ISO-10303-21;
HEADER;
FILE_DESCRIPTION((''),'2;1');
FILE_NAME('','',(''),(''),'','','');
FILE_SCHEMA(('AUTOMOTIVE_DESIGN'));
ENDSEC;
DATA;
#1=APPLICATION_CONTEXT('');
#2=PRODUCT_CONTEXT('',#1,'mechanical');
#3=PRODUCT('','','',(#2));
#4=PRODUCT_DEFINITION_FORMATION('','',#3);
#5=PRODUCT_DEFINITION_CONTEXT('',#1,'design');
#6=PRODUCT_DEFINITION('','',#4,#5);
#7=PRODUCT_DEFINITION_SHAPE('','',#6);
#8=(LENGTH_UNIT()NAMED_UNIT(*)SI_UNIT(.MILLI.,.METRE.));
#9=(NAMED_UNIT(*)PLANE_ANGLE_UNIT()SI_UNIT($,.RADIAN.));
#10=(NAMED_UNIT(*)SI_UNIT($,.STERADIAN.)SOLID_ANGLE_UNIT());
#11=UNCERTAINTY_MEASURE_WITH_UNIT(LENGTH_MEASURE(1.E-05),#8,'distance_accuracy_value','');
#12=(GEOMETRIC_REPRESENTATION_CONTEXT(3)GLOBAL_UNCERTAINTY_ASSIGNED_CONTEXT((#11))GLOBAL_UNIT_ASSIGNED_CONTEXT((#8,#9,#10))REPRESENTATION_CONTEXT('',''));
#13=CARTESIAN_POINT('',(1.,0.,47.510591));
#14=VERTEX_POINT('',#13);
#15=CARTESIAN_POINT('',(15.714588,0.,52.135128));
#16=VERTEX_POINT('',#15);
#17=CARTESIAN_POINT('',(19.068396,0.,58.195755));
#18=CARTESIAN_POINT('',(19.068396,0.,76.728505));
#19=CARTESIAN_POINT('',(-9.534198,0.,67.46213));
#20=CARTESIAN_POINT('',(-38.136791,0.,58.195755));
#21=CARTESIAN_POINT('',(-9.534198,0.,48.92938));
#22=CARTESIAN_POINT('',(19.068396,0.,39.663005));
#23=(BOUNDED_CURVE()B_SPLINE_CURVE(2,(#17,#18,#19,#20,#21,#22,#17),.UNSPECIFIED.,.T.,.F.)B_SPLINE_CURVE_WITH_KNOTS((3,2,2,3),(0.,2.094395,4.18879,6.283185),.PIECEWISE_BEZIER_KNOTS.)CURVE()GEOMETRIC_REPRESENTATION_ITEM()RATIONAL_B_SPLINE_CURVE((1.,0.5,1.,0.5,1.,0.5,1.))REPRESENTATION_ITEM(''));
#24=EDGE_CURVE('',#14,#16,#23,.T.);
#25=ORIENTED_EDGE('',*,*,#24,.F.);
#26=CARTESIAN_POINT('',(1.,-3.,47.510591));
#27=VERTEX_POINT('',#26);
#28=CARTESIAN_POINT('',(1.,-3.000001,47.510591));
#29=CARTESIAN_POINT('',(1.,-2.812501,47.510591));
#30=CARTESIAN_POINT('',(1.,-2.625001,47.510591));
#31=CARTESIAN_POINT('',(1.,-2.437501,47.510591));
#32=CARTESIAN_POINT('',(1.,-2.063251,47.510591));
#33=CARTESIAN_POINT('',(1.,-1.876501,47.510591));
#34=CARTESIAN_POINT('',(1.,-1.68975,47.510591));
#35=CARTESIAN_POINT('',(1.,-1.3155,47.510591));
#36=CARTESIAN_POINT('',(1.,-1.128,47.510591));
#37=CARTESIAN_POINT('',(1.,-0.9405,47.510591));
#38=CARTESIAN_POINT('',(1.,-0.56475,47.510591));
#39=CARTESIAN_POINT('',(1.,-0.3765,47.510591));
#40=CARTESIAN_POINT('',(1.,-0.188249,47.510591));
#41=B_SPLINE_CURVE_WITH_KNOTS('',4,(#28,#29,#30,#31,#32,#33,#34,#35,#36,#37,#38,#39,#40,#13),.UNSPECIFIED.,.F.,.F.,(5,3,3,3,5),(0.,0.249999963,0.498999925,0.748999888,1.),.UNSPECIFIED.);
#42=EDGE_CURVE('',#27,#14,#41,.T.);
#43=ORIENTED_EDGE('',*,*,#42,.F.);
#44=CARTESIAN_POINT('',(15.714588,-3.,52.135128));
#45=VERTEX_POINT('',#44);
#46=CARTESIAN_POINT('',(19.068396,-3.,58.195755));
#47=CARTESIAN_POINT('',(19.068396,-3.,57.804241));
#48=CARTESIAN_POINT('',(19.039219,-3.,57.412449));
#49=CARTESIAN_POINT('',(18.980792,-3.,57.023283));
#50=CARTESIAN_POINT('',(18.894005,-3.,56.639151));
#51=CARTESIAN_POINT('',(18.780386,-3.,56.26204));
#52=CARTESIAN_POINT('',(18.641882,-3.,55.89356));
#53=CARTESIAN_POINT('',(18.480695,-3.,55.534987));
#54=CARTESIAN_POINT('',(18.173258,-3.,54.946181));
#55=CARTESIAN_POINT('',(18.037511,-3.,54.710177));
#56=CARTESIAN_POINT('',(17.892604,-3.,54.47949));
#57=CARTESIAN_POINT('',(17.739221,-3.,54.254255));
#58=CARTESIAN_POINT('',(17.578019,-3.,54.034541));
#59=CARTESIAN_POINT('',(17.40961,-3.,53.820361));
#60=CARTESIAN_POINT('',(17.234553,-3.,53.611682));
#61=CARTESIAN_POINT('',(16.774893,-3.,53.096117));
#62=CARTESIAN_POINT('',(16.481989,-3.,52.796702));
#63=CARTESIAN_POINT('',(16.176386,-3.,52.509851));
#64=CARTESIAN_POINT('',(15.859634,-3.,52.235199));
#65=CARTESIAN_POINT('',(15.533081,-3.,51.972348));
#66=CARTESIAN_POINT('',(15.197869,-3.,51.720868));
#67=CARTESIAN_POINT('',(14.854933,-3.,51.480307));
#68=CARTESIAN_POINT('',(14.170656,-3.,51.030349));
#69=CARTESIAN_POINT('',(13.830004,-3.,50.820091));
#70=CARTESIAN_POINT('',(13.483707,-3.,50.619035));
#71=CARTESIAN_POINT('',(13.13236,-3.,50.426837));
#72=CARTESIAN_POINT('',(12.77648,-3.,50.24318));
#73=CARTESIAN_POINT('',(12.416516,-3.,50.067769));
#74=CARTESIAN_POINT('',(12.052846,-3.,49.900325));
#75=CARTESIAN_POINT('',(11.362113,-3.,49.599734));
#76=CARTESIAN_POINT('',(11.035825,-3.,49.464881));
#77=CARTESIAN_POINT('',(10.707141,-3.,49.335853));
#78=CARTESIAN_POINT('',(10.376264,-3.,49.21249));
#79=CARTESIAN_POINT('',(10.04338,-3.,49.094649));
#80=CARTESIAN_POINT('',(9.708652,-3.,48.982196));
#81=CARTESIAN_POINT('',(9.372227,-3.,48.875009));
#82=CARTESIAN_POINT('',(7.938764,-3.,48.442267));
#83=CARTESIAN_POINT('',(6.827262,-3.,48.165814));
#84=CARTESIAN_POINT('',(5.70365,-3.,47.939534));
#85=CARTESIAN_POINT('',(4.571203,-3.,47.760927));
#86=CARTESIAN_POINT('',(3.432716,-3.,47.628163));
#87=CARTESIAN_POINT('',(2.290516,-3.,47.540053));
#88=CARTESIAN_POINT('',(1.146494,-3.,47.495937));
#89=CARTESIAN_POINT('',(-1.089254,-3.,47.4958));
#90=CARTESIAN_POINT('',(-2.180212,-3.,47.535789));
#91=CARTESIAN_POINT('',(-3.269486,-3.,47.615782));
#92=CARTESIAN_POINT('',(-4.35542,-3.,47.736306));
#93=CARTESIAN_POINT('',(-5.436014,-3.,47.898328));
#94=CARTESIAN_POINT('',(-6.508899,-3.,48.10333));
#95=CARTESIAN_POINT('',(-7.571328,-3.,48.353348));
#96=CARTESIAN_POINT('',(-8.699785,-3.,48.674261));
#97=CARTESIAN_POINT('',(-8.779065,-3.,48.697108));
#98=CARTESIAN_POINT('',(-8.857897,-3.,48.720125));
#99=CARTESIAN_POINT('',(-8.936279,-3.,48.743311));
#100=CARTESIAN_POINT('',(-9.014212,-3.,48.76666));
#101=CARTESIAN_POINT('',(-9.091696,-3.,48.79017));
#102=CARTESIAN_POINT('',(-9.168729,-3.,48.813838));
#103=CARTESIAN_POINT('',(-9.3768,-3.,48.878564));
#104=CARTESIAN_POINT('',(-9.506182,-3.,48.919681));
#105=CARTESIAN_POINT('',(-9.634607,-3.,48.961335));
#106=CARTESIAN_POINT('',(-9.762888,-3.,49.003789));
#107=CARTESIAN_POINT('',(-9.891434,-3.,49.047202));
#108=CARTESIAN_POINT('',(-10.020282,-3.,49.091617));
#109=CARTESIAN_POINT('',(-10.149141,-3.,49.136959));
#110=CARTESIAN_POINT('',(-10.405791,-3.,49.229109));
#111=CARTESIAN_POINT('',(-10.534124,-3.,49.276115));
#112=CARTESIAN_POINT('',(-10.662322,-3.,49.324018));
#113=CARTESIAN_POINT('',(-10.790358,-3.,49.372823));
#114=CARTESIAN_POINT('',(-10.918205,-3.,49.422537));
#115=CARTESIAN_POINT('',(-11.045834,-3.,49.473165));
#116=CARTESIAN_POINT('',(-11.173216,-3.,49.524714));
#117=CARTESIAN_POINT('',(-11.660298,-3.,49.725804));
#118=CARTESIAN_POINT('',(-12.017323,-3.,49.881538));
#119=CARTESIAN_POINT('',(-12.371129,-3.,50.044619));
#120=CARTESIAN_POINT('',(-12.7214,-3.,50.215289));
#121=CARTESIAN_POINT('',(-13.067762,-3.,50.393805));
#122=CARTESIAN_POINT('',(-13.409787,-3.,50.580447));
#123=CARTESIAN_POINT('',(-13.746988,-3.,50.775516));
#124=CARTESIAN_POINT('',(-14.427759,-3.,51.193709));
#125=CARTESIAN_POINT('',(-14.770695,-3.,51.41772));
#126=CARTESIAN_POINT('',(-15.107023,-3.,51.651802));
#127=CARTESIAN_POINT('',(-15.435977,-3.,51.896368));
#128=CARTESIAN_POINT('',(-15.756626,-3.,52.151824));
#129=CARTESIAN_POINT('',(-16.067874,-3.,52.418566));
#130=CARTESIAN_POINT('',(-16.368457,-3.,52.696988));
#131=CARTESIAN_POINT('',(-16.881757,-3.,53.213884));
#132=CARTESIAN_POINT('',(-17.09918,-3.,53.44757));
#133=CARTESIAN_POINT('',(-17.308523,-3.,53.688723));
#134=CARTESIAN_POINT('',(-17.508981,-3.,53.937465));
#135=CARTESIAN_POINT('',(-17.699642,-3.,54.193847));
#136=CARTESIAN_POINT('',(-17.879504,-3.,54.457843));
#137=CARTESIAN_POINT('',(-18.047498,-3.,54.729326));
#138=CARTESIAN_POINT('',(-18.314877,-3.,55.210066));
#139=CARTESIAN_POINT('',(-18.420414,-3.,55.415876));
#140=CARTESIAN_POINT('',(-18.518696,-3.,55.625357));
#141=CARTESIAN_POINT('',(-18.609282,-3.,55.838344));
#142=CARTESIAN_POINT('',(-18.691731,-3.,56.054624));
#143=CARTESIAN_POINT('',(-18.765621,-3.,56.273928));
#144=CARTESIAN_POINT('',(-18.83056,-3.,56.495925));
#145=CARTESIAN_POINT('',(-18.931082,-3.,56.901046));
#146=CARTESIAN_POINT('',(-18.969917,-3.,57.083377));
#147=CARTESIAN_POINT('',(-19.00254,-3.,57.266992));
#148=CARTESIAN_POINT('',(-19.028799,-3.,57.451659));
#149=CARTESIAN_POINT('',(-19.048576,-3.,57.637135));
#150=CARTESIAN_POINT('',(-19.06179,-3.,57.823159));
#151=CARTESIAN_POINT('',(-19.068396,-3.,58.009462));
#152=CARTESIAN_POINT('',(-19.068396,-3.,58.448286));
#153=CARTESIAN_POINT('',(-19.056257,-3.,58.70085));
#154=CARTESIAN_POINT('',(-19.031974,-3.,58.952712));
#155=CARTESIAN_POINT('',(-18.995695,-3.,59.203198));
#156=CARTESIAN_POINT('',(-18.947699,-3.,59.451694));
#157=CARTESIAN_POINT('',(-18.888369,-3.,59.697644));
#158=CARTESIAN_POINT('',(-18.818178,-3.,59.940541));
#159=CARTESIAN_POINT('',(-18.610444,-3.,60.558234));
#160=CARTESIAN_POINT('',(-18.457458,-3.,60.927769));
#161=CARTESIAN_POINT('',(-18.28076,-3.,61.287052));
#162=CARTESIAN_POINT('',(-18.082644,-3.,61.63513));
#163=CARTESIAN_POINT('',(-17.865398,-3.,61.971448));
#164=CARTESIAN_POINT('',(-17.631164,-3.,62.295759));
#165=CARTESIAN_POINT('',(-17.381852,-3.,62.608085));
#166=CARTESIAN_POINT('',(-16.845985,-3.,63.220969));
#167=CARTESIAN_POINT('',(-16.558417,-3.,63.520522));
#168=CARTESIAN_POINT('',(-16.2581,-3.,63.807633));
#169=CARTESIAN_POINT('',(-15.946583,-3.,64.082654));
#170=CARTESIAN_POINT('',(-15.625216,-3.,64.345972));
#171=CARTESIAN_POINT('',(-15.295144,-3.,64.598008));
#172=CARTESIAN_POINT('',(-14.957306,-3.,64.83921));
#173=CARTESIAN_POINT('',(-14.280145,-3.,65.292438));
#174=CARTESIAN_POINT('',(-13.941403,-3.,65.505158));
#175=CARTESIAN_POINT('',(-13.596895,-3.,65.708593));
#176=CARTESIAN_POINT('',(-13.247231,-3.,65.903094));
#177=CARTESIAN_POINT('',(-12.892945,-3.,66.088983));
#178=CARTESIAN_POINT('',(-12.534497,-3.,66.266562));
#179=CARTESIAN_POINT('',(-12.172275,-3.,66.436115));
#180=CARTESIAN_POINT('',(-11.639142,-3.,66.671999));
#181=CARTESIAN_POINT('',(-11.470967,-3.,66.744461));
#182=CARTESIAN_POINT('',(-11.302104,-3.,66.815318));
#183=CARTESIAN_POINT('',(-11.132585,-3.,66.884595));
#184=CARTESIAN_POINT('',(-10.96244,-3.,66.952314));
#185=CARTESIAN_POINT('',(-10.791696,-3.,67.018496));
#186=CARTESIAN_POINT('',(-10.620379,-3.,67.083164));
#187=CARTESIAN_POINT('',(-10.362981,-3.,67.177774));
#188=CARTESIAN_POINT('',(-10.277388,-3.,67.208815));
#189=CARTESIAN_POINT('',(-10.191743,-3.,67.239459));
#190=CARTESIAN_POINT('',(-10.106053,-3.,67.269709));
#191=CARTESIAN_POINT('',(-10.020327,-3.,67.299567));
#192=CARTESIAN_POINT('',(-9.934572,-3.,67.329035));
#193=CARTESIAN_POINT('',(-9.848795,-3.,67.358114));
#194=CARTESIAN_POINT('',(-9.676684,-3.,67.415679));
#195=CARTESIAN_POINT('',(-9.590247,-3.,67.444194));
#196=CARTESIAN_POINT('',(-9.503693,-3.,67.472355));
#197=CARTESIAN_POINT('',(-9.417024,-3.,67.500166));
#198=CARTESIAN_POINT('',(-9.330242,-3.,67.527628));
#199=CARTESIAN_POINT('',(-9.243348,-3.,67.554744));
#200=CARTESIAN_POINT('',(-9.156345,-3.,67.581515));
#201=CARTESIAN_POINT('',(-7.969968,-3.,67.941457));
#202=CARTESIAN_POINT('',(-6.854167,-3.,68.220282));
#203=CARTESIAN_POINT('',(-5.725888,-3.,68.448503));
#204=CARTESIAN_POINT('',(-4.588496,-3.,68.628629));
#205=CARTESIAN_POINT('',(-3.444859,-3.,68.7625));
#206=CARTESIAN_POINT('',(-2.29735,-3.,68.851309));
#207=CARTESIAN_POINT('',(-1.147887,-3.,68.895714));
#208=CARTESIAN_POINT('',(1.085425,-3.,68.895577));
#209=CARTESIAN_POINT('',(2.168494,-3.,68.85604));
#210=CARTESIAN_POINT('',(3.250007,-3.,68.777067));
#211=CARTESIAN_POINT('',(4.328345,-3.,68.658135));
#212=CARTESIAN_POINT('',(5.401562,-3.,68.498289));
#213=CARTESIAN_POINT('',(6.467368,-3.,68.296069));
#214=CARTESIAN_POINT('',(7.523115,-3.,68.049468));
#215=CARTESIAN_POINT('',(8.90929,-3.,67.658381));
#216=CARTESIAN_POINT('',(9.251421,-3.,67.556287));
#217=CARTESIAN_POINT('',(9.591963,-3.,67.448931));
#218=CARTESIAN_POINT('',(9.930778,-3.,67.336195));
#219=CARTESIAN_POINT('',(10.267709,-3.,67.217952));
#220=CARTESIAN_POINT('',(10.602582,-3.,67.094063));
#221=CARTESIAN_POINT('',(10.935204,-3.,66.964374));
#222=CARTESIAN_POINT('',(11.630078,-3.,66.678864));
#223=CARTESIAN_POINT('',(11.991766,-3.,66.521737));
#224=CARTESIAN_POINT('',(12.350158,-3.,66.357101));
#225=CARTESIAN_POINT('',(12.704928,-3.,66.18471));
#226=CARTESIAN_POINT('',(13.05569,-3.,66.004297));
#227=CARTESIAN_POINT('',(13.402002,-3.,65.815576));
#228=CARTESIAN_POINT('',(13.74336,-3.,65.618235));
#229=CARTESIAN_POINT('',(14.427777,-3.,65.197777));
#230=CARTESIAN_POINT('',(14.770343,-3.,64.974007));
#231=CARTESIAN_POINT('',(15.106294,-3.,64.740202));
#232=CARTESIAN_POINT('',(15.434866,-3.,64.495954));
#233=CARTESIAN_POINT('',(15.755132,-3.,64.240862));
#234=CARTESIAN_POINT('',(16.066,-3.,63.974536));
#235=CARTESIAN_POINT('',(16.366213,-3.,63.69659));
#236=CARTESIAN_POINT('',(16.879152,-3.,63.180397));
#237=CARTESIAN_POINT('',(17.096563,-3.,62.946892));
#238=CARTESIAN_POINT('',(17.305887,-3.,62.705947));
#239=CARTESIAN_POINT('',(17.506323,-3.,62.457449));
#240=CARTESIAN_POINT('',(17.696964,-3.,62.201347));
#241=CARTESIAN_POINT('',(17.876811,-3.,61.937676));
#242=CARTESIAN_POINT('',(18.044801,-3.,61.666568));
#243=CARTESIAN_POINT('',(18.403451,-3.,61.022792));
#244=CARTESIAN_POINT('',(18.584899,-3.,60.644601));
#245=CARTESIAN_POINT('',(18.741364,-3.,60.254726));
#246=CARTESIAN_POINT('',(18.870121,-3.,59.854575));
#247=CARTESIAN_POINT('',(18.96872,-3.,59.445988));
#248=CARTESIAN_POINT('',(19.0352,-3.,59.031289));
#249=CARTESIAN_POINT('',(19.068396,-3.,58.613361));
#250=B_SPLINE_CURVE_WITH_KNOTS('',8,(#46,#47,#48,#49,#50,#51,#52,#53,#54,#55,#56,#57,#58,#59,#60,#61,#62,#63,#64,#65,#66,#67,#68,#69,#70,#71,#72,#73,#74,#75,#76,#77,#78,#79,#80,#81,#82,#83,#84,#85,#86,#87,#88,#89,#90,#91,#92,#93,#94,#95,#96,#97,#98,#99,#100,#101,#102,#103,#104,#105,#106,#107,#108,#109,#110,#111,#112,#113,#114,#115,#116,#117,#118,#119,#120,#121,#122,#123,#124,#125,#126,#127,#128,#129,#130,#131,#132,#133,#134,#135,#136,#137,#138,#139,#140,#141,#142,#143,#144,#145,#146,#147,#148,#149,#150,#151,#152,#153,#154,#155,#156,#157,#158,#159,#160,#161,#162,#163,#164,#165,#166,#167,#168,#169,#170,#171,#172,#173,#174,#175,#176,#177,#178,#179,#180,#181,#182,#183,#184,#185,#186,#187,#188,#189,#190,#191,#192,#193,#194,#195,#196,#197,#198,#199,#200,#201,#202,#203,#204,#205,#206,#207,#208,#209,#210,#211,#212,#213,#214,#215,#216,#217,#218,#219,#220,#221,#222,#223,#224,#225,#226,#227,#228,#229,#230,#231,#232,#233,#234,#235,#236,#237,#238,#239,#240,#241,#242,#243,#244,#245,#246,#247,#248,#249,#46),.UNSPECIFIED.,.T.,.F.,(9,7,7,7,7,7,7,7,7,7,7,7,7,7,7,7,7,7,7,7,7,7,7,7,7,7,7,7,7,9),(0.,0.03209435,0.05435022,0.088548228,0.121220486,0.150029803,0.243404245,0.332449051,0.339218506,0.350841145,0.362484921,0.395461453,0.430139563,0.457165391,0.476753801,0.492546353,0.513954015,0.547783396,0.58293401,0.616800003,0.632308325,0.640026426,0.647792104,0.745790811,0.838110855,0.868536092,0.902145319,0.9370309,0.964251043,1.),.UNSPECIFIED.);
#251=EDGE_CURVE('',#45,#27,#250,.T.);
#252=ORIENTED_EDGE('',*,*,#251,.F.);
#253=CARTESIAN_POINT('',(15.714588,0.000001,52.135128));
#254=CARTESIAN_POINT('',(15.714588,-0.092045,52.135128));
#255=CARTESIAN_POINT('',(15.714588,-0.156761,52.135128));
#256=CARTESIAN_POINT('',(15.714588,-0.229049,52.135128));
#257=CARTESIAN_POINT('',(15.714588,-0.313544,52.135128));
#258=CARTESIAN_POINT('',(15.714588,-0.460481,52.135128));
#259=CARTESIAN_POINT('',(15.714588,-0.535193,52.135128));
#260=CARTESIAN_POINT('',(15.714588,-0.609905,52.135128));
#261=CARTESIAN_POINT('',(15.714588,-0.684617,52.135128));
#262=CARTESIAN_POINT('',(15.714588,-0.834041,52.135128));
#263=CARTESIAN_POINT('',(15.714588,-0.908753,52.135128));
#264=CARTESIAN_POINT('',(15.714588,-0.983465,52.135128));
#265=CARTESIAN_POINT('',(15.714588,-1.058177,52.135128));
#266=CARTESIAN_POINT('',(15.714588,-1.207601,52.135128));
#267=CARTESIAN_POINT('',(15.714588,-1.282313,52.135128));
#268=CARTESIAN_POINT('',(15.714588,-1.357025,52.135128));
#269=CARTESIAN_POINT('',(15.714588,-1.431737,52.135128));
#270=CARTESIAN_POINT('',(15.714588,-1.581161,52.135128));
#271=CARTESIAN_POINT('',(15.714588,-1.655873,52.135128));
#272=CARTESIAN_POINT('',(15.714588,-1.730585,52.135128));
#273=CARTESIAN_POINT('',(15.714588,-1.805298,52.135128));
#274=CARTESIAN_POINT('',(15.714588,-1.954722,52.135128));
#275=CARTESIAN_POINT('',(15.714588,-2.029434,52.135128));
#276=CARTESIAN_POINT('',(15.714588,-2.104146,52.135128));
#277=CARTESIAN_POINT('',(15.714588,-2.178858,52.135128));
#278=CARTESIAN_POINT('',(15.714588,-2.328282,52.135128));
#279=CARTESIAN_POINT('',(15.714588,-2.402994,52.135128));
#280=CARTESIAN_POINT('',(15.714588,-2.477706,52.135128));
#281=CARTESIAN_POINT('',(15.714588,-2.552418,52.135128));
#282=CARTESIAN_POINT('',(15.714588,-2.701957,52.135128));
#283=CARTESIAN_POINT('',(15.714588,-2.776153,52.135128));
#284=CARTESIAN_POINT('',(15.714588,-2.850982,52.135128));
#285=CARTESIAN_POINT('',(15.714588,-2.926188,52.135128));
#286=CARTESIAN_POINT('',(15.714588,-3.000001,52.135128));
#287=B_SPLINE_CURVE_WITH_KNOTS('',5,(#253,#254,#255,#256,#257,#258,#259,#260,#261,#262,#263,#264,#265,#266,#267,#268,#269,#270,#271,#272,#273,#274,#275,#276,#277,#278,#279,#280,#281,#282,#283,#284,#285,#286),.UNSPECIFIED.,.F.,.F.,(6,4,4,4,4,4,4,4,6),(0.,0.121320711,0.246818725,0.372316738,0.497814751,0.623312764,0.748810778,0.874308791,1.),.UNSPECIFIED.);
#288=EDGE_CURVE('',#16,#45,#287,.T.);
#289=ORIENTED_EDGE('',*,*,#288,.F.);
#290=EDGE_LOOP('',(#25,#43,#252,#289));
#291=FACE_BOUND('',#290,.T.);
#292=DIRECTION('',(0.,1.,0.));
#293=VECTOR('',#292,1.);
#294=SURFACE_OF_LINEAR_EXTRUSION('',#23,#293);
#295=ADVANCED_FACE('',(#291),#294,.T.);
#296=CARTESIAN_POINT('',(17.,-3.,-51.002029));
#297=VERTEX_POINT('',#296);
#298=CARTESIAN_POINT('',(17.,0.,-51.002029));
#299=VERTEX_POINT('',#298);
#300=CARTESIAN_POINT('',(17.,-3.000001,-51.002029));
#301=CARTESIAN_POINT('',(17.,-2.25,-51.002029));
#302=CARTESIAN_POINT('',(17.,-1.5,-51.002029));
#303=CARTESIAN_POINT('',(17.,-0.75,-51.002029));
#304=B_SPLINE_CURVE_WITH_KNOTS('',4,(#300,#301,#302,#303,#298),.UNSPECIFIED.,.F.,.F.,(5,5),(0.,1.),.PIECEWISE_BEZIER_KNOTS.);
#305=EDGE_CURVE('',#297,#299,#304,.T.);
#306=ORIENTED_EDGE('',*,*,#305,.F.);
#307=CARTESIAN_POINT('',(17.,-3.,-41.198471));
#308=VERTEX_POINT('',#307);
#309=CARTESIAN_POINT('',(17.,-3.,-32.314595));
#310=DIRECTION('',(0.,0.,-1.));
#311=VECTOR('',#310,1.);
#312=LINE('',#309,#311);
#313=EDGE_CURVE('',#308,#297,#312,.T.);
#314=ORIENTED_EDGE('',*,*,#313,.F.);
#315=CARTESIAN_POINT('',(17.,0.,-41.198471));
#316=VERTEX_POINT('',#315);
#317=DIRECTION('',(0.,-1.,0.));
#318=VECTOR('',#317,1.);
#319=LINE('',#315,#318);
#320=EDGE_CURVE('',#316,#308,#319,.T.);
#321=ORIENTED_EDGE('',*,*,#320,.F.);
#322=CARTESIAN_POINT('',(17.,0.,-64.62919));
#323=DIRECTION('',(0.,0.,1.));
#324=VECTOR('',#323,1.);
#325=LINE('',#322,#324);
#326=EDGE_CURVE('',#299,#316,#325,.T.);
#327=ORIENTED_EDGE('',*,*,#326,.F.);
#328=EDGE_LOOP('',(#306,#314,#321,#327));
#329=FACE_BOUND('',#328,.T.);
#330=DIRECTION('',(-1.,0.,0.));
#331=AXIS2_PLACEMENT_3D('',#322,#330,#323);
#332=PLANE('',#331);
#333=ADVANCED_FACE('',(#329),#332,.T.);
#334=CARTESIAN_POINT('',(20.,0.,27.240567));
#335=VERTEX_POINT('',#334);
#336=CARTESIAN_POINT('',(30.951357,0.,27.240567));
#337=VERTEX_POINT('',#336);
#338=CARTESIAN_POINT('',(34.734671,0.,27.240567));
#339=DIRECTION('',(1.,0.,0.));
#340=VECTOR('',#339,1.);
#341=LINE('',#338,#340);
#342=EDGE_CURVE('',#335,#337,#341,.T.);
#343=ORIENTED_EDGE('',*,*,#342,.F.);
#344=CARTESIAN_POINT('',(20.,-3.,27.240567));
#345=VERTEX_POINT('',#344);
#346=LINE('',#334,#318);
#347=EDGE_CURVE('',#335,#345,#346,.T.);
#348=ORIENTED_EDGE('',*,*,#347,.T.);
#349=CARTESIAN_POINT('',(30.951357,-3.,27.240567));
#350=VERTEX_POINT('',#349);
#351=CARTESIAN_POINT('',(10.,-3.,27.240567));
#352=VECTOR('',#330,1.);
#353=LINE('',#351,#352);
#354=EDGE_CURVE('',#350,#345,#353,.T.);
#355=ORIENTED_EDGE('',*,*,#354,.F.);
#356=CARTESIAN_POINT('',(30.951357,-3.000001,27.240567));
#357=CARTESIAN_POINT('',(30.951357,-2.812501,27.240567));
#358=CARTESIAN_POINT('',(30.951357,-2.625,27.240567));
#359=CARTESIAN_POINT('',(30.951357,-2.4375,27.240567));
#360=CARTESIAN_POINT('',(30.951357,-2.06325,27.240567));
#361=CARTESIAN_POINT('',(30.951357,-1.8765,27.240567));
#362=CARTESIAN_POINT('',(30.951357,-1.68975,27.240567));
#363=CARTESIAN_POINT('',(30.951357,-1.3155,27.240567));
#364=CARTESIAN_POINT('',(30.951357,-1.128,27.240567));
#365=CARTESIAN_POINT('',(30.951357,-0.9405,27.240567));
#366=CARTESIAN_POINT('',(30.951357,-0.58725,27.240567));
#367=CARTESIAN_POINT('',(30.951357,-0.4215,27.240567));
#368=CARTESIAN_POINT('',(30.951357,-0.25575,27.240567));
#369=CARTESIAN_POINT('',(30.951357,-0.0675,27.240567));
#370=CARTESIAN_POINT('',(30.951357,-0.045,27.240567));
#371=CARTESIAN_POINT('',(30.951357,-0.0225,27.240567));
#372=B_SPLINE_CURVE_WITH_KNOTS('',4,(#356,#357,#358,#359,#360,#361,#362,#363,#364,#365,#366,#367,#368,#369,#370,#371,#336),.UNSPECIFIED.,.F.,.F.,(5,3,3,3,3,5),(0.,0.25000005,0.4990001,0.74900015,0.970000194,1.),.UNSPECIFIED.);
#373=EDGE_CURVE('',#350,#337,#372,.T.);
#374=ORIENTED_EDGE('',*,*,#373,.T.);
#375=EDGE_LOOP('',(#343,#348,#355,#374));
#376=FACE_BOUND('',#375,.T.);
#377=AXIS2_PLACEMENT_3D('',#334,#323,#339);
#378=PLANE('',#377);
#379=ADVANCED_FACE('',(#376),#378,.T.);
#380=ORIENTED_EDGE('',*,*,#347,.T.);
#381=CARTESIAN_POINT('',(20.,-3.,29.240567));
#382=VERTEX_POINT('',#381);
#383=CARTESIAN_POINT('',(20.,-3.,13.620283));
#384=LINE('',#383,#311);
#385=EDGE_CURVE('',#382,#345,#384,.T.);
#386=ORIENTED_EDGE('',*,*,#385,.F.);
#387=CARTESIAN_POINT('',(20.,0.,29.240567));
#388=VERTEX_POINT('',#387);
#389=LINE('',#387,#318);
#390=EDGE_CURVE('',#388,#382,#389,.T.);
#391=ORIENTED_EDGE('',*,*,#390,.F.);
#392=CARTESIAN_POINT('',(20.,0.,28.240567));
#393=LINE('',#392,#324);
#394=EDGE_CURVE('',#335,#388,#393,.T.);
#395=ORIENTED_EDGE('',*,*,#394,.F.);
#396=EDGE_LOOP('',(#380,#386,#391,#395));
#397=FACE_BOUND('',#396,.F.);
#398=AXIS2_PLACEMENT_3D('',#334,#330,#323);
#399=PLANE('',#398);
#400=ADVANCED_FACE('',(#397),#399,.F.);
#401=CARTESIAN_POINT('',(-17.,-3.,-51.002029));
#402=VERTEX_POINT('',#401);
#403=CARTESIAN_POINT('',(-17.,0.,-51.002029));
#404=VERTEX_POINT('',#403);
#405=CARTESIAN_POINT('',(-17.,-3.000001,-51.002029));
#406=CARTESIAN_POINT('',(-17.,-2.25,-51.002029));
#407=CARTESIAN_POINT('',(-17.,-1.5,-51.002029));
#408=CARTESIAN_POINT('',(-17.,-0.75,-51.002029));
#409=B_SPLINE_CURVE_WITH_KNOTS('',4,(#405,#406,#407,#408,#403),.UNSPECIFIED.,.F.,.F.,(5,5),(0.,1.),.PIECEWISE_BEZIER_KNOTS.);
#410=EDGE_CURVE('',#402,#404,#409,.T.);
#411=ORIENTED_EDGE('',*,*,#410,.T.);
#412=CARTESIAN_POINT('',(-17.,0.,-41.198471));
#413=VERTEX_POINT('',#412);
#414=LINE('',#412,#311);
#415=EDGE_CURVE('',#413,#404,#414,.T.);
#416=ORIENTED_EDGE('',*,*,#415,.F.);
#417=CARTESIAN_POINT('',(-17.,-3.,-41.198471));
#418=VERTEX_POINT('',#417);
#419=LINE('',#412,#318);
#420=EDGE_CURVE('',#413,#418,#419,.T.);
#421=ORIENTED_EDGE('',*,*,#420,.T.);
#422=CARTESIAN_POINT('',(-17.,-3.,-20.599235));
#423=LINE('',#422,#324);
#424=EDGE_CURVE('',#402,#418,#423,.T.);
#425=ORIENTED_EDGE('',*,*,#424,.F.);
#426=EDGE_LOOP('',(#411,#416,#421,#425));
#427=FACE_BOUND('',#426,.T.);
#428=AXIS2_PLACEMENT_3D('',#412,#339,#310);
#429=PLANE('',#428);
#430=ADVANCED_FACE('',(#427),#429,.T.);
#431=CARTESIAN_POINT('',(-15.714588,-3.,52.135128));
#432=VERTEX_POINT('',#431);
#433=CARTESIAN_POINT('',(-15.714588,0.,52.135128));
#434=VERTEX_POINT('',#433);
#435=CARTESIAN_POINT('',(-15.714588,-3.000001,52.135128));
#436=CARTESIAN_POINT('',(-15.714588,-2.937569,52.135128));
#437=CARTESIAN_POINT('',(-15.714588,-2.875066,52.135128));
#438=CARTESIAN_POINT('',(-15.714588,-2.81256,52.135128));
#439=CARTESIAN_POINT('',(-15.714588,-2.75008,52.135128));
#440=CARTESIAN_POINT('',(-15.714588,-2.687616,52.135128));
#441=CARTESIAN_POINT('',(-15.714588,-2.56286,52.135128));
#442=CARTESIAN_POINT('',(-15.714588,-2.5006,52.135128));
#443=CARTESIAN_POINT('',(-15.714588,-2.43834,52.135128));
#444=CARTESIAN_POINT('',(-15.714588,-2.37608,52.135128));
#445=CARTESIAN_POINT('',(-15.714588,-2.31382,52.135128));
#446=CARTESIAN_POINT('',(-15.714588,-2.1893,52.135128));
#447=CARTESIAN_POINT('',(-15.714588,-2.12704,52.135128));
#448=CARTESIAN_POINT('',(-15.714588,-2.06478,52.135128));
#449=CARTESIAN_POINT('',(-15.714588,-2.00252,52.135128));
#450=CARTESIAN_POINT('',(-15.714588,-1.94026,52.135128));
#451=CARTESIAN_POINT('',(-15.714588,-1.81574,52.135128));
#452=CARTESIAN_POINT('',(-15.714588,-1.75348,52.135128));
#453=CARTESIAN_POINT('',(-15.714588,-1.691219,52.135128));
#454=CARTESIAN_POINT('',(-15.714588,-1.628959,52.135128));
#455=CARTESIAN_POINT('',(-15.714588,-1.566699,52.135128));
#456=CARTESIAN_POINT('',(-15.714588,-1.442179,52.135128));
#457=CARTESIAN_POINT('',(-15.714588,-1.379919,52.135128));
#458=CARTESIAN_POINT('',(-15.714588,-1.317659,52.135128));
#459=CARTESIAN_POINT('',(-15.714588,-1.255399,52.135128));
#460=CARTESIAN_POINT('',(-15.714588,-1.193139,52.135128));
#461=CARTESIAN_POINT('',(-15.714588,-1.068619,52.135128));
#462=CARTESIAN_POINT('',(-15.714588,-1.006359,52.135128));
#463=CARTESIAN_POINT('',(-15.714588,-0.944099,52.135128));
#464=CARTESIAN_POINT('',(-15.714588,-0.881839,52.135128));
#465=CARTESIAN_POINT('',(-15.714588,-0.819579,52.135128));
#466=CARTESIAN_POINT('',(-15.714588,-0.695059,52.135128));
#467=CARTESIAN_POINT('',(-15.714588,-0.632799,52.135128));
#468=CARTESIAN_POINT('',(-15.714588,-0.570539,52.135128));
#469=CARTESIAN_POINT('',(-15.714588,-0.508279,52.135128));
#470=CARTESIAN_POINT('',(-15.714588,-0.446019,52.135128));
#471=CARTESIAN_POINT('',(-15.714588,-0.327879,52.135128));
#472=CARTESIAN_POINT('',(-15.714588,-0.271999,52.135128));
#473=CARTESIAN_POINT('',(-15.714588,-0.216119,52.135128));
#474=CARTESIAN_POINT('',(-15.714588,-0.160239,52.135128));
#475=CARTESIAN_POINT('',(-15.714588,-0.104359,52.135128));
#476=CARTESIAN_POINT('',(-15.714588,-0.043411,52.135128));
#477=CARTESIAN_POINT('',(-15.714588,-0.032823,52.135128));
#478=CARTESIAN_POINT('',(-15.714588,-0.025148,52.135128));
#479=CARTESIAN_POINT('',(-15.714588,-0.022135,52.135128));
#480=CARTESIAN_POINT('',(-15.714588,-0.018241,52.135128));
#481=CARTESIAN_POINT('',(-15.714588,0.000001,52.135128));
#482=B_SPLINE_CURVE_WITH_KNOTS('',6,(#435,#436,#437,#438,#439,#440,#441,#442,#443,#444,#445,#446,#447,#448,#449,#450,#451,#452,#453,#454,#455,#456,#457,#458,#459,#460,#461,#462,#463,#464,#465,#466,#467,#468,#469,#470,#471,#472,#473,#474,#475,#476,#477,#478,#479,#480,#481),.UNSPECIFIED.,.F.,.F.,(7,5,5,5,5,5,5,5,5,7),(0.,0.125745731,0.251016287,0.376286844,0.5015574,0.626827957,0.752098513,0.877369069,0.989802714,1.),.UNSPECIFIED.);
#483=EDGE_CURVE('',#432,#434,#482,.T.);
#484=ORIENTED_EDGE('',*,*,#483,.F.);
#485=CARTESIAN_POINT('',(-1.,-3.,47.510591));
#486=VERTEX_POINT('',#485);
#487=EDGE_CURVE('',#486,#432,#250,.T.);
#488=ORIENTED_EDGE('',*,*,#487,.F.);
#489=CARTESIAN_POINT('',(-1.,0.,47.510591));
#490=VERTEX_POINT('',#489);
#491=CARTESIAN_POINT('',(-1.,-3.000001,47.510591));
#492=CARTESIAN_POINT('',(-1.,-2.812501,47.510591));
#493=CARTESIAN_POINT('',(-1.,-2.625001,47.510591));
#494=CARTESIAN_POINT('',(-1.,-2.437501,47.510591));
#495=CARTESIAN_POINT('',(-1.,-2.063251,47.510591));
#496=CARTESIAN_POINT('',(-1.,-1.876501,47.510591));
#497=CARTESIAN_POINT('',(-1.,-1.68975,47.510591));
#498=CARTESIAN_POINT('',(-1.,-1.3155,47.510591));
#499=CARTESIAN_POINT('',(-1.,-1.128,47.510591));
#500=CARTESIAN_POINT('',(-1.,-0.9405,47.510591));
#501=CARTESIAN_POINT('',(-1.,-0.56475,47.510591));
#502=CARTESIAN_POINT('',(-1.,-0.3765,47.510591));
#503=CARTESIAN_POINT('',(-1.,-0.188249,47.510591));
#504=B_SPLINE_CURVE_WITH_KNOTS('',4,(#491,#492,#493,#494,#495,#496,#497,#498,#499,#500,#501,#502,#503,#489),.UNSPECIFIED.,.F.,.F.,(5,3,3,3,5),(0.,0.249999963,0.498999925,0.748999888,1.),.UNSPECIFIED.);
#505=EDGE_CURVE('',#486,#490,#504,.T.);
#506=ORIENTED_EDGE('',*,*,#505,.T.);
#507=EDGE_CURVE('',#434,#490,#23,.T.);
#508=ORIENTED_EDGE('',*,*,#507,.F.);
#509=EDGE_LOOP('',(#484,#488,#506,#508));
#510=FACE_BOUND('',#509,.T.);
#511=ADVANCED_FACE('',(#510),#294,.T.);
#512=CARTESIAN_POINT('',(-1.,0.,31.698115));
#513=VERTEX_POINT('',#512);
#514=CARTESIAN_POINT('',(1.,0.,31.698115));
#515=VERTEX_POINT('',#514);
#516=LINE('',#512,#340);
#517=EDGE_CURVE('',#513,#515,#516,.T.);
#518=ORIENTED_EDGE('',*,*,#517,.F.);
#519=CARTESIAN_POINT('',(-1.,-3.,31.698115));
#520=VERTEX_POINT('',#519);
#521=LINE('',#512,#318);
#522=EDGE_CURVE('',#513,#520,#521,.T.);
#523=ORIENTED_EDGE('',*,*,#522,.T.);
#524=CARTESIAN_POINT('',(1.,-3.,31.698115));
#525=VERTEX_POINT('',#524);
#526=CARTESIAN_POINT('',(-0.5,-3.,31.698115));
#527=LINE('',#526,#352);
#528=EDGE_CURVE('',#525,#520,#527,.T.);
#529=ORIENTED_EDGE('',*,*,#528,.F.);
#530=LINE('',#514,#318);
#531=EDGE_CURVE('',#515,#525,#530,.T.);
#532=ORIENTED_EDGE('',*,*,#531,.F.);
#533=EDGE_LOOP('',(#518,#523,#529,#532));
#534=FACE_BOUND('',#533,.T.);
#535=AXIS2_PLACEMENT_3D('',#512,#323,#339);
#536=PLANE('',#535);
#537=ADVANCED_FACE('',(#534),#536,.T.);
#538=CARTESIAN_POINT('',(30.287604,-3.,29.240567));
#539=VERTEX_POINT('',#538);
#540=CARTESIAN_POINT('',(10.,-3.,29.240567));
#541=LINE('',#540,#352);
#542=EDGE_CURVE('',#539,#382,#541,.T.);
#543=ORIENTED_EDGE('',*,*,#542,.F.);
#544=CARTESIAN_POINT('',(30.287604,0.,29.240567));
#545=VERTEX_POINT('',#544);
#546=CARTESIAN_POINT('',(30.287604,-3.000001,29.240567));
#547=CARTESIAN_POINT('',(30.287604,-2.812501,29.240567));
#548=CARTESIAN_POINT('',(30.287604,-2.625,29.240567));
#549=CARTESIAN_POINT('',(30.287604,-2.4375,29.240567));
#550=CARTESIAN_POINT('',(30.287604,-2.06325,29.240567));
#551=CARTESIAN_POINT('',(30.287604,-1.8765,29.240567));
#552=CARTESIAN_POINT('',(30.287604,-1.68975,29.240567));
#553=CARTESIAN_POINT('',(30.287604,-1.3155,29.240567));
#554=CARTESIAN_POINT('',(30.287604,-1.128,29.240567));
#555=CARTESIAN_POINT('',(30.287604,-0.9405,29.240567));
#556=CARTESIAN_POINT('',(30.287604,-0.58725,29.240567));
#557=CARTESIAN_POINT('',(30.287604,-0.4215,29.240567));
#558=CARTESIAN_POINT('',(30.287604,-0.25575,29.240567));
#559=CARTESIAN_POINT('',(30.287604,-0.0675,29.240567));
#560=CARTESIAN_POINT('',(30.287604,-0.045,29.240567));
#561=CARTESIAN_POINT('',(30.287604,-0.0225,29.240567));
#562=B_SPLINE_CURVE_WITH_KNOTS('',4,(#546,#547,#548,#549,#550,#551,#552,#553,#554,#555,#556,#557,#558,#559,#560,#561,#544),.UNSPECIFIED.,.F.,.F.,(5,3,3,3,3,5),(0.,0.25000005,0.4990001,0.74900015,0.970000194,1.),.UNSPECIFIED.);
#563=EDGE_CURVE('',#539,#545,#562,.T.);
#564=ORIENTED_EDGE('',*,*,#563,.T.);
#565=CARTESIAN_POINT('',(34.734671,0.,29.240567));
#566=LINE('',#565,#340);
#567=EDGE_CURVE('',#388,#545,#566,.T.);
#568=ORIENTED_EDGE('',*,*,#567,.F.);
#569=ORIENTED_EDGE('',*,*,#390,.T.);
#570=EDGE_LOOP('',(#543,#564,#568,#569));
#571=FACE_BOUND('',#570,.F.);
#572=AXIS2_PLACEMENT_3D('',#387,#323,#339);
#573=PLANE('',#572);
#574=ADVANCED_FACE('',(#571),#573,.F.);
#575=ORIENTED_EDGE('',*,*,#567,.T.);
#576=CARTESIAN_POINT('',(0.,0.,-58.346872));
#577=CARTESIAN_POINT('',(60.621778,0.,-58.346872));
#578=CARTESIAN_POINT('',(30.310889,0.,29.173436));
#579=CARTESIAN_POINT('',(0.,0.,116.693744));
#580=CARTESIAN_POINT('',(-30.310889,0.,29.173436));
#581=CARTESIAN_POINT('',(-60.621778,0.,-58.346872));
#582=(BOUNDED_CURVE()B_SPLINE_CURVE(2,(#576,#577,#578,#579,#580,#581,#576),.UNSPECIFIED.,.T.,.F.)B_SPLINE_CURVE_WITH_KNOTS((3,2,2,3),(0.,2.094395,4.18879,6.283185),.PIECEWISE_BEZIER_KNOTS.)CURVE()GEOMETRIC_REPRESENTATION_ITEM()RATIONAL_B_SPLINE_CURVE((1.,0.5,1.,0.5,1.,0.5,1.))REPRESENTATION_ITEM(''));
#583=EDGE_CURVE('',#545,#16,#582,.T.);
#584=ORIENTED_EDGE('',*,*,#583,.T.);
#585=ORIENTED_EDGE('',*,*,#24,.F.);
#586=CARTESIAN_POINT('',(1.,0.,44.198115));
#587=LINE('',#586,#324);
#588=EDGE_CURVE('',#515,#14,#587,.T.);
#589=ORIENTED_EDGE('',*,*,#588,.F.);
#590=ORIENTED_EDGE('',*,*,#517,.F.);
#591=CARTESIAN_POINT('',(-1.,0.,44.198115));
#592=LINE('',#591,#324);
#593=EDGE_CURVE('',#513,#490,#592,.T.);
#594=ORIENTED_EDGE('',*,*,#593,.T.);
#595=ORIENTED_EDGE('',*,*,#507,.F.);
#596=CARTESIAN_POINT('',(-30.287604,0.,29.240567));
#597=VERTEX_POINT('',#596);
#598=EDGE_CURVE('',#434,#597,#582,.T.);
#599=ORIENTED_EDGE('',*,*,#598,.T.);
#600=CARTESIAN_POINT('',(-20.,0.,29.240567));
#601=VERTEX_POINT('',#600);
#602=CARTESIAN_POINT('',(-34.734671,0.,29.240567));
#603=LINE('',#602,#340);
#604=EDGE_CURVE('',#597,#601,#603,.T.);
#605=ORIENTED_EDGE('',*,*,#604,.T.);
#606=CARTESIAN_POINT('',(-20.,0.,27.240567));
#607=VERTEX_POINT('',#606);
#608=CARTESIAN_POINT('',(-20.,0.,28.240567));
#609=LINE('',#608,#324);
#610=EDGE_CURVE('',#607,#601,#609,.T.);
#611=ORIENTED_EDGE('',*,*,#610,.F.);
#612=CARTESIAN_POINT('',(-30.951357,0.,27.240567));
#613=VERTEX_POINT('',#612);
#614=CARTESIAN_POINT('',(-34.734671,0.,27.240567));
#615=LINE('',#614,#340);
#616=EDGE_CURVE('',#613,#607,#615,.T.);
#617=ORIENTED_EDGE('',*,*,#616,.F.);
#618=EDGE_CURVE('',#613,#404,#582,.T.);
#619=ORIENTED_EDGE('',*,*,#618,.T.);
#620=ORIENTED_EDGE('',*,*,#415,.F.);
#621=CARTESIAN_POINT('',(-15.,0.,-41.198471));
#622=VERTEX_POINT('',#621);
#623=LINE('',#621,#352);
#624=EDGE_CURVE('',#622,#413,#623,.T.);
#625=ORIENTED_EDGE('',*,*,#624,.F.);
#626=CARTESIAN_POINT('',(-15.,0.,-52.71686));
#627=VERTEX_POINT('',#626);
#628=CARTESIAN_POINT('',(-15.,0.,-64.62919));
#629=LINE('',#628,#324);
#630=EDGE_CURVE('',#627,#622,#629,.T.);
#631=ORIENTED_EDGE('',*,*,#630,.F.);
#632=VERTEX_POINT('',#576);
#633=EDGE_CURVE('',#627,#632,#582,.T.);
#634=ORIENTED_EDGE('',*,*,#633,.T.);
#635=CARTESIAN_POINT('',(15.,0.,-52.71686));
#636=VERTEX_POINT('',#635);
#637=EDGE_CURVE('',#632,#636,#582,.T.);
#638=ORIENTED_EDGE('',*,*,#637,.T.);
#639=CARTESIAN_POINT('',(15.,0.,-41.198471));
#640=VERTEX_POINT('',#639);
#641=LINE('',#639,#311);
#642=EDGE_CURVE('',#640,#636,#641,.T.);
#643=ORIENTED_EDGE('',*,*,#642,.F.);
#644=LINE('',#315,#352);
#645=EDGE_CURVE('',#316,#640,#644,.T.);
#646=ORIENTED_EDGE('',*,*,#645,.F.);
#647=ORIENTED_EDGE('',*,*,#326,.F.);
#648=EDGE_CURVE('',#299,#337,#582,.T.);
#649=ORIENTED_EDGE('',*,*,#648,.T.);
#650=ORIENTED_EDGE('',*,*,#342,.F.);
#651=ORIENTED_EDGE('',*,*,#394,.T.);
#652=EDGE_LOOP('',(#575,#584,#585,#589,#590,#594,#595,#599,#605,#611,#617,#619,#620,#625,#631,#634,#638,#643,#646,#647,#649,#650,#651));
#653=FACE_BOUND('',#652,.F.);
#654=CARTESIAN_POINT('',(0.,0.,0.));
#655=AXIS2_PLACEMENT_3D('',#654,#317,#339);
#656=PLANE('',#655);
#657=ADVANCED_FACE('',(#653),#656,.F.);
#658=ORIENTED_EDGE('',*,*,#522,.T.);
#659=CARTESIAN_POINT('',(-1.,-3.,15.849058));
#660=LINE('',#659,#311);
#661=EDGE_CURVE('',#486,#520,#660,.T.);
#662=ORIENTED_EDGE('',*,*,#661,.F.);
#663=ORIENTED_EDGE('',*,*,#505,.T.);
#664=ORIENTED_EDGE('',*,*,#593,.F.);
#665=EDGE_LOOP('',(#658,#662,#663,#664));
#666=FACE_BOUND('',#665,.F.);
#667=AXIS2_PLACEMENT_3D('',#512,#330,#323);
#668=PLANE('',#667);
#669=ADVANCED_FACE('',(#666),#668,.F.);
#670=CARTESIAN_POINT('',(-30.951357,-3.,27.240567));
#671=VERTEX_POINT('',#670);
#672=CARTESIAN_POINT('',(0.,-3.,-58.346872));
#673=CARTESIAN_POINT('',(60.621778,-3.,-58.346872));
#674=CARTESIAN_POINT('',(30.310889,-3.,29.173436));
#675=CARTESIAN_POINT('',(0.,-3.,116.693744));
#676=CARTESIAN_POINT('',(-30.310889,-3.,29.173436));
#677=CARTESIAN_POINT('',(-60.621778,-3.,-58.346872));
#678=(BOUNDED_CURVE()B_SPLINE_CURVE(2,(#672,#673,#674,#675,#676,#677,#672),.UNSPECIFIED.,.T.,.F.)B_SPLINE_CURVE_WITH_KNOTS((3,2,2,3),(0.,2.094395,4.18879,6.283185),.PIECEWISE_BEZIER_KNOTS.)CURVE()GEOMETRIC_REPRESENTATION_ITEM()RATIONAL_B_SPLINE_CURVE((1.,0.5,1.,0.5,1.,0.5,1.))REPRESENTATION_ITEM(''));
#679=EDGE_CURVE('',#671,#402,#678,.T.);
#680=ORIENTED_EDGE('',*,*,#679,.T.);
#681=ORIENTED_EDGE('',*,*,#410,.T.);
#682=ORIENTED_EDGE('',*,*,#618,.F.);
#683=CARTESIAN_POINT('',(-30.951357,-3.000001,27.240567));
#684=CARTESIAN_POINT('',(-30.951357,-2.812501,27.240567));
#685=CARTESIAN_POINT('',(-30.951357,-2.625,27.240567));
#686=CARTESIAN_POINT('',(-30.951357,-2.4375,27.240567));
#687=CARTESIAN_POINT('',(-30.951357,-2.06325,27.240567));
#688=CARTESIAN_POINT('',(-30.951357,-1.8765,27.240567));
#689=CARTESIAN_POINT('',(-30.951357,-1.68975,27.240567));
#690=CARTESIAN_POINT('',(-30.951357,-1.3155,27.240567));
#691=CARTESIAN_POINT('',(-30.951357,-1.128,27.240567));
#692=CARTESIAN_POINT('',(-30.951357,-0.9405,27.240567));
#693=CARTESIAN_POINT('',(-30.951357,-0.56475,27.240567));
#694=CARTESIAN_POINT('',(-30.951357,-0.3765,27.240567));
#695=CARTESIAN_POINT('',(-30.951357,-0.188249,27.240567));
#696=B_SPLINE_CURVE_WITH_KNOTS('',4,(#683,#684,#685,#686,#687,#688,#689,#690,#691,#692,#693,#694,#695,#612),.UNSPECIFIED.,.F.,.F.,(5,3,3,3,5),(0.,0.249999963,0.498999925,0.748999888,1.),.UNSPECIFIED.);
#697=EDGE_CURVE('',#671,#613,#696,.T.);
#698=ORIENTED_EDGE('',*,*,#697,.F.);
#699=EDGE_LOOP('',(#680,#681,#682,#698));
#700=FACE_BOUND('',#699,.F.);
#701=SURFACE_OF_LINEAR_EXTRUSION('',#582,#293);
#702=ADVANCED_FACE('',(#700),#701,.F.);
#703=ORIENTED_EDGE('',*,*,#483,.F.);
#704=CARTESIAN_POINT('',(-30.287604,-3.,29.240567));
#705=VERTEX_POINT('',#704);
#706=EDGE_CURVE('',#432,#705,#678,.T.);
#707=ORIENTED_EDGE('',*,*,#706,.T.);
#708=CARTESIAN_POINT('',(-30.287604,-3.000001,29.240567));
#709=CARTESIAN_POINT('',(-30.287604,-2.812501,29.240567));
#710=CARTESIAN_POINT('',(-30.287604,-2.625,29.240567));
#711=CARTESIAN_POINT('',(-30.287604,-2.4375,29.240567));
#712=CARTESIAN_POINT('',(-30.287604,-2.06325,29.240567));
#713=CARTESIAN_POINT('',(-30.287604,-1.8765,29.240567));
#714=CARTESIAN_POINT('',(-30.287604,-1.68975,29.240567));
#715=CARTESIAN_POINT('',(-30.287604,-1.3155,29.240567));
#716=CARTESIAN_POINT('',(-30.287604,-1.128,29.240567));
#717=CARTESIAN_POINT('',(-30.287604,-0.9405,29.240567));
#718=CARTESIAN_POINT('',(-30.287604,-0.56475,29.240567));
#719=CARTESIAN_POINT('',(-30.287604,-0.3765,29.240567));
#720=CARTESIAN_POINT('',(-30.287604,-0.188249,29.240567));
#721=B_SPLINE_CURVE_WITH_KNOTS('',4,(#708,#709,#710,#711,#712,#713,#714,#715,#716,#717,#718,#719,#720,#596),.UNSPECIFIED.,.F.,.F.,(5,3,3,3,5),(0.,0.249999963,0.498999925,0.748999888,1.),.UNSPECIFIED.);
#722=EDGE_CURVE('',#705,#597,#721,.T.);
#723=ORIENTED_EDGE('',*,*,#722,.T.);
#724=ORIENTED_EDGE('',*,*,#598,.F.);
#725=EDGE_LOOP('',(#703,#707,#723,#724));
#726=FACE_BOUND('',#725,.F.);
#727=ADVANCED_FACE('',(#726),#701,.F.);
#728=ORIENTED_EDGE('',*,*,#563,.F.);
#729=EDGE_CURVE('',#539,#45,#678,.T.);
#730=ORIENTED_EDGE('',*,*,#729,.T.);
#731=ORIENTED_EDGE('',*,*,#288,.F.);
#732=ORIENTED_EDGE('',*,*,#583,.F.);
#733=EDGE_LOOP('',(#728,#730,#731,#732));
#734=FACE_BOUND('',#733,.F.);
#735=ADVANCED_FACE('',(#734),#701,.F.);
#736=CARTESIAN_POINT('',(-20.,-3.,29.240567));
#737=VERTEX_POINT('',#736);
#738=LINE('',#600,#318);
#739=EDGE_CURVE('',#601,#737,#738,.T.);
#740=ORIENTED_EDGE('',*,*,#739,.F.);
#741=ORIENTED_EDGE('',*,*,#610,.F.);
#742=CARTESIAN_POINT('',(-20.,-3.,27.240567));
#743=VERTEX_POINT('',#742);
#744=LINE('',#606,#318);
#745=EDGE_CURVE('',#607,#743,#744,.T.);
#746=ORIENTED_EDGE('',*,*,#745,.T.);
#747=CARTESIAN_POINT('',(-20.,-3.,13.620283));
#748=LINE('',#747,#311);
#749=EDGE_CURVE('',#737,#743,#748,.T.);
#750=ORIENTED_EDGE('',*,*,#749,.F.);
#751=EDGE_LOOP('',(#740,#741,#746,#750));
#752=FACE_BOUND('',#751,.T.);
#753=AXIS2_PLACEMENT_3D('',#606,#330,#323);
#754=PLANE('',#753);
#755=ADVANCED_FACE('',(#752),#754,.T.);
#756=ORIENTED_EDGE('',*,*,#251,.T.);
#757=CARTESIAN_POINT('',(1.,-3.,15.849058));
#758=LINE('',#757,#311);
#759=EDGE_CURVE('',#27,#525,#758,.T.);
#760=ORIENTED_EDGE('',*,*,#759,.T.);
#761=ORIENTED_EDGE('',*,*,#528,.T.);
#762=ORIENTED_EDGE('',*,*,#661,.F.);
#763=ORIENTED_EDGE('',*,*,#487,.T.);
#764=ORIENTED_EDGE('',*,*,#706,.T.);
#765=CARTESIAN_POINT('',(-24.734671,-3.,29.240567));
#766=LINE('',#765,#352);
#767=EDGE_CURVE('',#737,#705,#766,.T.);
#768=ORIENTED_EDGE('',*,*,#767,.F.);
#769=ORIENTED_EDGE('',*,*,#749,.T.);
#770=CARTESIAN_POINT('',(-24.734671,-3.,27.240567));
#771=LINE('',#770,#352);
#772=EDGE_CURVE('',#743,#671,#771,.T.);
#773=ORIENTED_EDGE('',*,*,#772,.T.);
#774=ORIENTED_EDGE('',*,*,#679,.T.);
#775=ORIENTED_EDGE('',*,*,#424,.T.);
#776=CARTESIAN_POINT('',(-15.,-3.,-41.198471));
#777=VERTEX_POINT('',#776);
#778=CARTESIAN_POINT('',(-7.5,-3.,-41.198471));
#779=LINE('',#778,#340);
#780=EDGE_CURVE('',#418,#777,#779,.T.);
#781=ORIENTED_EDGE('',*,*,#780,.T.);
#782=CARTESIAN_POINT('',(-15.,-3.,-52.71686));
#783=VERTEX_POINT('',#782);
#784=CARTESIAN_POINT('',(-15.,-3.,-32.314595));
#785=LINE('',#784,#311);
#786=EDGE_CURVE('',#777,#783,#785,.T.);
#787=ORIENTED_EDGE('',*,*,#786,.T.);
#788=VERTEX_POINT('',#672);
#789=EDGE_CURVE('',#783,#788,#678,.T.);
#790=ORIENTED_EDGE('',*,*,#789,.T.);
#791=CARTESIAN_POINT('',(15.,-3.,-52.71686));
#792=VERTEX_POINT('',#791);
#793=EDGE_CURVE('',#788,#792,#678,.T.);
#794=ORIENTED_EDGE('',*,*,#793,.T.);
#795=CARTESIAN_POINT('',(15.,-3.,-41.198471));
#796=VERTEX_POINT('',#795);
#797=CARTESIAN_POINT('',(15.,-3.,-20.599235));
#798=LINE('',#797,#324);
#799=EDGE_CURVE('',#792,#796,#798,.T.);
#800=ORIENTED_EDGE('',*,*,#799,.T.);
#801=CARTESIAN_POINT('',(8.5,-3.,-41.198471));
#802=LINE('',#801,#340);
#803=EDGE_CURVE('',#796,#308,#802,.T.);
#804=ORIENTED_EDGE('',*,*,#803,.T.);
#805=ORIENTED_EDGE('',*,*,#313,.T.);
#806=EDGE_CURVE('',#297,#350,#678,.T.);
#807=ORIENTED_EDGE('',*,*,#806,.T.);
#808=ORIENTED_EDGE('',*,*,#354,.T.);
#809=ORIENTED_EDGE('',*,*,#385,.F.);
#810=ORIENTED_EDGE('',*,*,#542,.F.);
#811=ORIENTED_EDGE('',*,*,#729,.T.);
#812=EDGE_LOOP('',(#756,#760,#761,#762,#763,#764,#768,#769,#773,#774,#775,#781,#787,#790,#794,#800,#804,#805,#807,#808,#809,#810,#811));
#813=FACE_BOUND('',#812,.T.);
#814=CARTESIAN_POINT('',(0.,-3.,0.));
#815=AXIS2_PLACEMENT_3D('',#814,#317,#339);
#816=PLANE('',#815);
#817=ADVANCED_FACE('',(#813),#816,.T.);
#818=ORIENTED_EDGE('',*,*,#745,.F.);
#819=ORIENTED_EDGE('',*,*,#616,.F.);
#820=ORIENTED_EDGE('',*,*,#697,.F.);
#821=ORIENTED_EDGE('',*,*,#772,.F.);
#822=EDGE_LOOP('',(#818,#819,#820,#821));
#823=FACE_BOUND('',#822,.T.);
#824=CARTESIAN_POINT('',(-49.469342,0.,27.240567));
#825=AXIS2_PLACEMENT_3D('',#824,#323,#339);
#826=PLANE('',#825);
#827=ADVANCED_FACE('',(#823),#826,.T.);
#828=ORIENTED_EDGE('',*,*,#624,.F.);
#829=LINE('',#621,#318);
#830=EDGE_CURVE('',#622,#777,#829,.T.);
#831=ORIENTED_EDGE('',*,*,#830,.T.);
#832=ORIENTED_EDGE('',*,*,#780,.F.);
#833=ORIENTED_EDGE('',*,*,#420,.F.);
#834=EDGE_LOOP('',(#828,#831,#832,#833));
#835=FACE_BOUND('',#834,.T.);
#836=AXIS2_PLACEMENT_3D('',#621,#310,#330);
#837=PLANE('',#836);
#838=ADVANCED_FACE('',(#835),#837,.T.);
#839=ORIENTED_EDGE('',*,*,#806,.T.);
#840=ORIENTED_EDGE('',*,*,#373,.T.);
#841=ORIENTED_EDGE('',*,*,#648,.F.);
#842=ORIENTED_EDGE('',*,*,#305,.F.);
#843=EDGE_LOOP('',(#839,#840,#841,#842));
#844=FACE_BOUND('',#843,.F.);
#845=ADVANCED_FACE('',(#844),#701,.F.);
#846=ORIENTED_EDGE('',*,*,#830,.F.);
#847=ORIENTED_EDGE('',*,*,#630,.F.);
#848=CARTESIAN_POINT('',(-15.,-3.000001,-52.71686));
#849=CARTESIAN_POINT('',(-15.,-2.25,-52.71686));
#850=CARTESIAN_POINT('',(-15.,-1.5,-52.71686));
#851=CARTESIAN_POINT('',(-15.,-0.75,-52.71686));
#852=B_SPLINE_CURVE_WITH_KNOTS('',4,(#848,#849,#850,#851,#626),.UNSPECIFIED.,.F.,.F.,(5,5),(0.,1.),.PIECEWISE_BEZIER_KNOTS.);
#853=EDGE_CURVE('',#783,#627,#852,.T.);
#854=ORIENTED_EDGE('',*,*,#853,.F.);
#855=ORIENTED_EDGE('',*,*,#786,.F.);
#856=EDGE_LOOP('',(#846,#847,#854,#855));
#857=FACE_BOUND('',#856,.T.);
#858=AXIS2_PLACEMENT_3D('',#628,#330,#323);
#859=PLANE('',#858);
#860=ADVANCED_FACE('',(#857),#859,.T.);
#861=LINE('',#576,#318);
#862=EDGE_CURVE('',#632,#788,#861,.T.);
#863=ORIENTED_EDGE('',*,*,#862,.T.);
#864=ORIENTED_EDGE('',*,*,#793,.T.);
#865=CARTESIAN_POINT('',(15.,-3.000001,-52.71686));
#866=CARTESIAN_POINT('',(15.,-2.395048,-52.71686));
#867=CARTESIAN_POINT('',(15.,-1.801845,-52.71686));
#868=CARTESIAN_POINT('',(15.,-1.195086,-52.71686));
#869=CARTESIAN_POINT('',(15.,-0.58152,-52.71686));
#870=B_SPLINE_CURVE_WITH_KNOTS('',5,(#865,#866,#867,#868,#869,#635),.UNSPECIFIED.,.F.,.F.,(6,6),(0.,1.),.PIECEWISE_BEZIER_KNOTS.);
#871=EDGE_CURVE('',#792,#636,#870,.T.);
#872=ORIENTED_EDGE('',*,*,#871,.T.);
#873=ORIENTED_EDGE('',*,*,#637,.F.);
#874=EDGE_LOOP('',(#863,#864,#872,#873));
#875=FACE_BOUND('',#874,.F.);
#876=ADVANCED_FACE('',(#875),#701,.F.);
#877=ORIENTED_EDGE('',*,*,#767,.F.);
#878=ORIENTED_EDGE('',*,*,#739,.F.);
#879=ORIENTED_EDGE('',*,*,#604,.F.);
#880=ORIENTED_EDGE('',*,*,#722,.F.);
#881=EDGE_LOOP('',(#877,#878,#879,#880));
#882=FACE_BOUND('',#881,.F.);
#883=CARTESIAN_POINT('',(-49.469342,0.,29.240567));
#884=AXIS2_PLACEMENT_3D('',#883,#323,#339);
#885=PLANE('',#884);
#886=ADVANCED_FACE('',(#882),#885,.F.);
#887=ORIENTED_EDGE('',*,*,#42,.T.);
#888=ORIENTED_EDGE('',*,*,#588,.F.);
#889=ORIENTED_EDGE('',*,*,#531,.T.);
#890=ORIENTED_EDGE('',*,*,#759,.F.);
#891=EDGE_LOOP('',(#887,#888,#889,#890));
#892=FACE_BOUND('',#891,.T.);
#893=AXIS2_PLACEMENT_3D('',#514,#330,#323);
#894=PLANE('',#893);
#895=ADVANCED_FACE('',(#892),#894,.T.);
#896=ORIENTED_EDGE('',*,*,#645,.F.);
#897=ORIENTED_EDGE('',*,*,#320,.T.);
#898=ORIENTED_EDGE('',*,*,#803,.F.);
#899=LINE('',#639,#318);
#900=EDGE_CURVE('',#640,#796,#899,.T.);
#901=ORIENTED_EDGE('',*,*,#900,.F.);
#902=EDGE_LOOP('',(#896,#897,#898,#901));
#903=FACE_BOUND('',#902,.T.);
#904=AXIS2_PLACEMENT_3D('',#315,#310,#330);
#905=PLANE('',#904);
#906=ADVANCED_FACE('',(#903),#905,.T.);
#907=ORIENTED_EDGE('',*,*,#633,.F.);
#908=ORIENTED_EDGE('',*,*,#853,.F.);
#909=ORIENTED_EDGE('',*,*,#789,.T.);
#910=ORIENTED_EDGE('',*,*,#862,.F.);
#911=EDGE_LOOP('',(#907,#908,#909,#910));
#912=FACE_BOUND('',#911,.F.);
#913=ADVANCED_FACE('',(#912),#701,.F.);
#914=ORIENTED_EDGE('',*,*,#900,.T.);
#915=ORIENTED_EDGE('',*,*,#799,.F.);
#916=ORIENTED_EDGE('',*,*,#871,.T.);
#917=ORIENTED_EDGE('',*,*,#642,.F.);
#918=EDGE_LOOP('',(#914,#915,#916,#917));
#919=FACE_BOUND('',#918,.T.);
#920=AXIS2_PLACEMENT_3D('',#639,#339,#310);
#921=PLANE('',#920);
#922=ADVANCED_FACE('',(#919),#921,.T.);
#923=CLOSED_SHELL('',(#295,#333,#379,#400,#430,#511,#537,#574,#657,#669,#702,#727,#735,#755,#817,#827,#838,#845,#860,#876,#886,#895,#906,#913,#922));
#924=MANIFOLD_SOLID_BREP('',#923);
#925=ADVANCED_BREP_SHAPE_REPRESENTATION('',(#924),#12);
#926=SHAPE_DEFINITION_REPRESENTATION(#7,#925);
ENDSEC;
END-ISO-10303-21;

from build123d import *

# Parameters (mm, degrees)
F1_DEPTH = 3
F2_W     = 29.469342
F2_H     = 2
F3_DEPTH = 25
F5_DEPTH = 10
F7_DEPTH = 25
F8_W     = 1
F8_H     = 25
F9_DEPTH = 25


with BuildPart() as f1:
    # F0 (on Front) → F1 (new body)
    with BuildSketch(Plane.XZ):
        with BuildLine():
            add(Edge.make_bspline(
                [(0, -58.346872), (60.621778, -58.346872), (30.310889, 29.173436), (0, 116.693744), (-30.310889, 29.173436), (-60.621778, -58.346872), (0, -58.346872)],
                knots=[0, 0, 0, 2.094395, 2.094395, 4.18879, 4.18879, 6.283185, 6.283185, 6.283185], degree=2, weights=[1, 0.5, 1, 0.5, 1, 0.5, 1]))
        make_face()
    extrude(amount=F1_DEPTH)

    # F2 (on Front) → F3 (cut)
    with BuildSketch(Plane.XZ):
        with Locations((-34.734671, 28.240567)):
            Rectangle(F2_W, F2_H)
        with Locations((34.734671, 28.240567)):
            Rectangle(F2_W, F2_H)
    extrude(amount=F3_DEPTH, mode=Mode.SUBTRACT)

    # F4 (on Front) → F5 (cut)
    with BuildSketch(Plane.XZ):
        Polygon((-15, -41.198471), (-17, -41.198471), (-17, -51.198471), (-17, -64.541914), (-15, -64.62919), (-15, -53.12467), align=None)
        Polygon((17, -51.198471), (17, -41.198471), (15, -41.198471), (15, -53.12467), (15, -64.62919), (17, -64.62919), align=None)
    extrude(amount=F5_DEPTH, mode=Mode.SUBTRACT)

    # F6 (on Front) → F7 (cut)
    with BuildSketch(Plane.XZ):
        with BuildLine():
            add(Edge.make_bspline(
                [(19.068396, 58.195755), (19.068396, 76.728505), (-9.534198, 67.46213), (-38.136791, 58.195755), (-9.534198, 48.92938), (19.068396, 39.663005), (19.068396, 58.195755)],
                knots=[0, 0, 0, 2.094395, 2.094395, 4.18879, 4.18879, 6.283185, 6.283185, 6.283185], degree=2, weights=[1, 0.5, 1, 0.5, 1, 0.5, 1]))
        make_face()
    extrude(amount=F7_DEPTH, mode=Mode.SUBTRACT)

    # F8 (on Front) → F9 (cut)
    with BuildSketch(Plane.XZ):
        with Locations((-0.5, 44.198115)):
            Rectangle(F8_W, F8_H)
        with Locations((0.5, 44.198115)):
            Rectangle(F8_W, F8_H)
    extrude(amount=F9_DEPTH, mode=Mode.SUBTRACT)


solid = f1.part
